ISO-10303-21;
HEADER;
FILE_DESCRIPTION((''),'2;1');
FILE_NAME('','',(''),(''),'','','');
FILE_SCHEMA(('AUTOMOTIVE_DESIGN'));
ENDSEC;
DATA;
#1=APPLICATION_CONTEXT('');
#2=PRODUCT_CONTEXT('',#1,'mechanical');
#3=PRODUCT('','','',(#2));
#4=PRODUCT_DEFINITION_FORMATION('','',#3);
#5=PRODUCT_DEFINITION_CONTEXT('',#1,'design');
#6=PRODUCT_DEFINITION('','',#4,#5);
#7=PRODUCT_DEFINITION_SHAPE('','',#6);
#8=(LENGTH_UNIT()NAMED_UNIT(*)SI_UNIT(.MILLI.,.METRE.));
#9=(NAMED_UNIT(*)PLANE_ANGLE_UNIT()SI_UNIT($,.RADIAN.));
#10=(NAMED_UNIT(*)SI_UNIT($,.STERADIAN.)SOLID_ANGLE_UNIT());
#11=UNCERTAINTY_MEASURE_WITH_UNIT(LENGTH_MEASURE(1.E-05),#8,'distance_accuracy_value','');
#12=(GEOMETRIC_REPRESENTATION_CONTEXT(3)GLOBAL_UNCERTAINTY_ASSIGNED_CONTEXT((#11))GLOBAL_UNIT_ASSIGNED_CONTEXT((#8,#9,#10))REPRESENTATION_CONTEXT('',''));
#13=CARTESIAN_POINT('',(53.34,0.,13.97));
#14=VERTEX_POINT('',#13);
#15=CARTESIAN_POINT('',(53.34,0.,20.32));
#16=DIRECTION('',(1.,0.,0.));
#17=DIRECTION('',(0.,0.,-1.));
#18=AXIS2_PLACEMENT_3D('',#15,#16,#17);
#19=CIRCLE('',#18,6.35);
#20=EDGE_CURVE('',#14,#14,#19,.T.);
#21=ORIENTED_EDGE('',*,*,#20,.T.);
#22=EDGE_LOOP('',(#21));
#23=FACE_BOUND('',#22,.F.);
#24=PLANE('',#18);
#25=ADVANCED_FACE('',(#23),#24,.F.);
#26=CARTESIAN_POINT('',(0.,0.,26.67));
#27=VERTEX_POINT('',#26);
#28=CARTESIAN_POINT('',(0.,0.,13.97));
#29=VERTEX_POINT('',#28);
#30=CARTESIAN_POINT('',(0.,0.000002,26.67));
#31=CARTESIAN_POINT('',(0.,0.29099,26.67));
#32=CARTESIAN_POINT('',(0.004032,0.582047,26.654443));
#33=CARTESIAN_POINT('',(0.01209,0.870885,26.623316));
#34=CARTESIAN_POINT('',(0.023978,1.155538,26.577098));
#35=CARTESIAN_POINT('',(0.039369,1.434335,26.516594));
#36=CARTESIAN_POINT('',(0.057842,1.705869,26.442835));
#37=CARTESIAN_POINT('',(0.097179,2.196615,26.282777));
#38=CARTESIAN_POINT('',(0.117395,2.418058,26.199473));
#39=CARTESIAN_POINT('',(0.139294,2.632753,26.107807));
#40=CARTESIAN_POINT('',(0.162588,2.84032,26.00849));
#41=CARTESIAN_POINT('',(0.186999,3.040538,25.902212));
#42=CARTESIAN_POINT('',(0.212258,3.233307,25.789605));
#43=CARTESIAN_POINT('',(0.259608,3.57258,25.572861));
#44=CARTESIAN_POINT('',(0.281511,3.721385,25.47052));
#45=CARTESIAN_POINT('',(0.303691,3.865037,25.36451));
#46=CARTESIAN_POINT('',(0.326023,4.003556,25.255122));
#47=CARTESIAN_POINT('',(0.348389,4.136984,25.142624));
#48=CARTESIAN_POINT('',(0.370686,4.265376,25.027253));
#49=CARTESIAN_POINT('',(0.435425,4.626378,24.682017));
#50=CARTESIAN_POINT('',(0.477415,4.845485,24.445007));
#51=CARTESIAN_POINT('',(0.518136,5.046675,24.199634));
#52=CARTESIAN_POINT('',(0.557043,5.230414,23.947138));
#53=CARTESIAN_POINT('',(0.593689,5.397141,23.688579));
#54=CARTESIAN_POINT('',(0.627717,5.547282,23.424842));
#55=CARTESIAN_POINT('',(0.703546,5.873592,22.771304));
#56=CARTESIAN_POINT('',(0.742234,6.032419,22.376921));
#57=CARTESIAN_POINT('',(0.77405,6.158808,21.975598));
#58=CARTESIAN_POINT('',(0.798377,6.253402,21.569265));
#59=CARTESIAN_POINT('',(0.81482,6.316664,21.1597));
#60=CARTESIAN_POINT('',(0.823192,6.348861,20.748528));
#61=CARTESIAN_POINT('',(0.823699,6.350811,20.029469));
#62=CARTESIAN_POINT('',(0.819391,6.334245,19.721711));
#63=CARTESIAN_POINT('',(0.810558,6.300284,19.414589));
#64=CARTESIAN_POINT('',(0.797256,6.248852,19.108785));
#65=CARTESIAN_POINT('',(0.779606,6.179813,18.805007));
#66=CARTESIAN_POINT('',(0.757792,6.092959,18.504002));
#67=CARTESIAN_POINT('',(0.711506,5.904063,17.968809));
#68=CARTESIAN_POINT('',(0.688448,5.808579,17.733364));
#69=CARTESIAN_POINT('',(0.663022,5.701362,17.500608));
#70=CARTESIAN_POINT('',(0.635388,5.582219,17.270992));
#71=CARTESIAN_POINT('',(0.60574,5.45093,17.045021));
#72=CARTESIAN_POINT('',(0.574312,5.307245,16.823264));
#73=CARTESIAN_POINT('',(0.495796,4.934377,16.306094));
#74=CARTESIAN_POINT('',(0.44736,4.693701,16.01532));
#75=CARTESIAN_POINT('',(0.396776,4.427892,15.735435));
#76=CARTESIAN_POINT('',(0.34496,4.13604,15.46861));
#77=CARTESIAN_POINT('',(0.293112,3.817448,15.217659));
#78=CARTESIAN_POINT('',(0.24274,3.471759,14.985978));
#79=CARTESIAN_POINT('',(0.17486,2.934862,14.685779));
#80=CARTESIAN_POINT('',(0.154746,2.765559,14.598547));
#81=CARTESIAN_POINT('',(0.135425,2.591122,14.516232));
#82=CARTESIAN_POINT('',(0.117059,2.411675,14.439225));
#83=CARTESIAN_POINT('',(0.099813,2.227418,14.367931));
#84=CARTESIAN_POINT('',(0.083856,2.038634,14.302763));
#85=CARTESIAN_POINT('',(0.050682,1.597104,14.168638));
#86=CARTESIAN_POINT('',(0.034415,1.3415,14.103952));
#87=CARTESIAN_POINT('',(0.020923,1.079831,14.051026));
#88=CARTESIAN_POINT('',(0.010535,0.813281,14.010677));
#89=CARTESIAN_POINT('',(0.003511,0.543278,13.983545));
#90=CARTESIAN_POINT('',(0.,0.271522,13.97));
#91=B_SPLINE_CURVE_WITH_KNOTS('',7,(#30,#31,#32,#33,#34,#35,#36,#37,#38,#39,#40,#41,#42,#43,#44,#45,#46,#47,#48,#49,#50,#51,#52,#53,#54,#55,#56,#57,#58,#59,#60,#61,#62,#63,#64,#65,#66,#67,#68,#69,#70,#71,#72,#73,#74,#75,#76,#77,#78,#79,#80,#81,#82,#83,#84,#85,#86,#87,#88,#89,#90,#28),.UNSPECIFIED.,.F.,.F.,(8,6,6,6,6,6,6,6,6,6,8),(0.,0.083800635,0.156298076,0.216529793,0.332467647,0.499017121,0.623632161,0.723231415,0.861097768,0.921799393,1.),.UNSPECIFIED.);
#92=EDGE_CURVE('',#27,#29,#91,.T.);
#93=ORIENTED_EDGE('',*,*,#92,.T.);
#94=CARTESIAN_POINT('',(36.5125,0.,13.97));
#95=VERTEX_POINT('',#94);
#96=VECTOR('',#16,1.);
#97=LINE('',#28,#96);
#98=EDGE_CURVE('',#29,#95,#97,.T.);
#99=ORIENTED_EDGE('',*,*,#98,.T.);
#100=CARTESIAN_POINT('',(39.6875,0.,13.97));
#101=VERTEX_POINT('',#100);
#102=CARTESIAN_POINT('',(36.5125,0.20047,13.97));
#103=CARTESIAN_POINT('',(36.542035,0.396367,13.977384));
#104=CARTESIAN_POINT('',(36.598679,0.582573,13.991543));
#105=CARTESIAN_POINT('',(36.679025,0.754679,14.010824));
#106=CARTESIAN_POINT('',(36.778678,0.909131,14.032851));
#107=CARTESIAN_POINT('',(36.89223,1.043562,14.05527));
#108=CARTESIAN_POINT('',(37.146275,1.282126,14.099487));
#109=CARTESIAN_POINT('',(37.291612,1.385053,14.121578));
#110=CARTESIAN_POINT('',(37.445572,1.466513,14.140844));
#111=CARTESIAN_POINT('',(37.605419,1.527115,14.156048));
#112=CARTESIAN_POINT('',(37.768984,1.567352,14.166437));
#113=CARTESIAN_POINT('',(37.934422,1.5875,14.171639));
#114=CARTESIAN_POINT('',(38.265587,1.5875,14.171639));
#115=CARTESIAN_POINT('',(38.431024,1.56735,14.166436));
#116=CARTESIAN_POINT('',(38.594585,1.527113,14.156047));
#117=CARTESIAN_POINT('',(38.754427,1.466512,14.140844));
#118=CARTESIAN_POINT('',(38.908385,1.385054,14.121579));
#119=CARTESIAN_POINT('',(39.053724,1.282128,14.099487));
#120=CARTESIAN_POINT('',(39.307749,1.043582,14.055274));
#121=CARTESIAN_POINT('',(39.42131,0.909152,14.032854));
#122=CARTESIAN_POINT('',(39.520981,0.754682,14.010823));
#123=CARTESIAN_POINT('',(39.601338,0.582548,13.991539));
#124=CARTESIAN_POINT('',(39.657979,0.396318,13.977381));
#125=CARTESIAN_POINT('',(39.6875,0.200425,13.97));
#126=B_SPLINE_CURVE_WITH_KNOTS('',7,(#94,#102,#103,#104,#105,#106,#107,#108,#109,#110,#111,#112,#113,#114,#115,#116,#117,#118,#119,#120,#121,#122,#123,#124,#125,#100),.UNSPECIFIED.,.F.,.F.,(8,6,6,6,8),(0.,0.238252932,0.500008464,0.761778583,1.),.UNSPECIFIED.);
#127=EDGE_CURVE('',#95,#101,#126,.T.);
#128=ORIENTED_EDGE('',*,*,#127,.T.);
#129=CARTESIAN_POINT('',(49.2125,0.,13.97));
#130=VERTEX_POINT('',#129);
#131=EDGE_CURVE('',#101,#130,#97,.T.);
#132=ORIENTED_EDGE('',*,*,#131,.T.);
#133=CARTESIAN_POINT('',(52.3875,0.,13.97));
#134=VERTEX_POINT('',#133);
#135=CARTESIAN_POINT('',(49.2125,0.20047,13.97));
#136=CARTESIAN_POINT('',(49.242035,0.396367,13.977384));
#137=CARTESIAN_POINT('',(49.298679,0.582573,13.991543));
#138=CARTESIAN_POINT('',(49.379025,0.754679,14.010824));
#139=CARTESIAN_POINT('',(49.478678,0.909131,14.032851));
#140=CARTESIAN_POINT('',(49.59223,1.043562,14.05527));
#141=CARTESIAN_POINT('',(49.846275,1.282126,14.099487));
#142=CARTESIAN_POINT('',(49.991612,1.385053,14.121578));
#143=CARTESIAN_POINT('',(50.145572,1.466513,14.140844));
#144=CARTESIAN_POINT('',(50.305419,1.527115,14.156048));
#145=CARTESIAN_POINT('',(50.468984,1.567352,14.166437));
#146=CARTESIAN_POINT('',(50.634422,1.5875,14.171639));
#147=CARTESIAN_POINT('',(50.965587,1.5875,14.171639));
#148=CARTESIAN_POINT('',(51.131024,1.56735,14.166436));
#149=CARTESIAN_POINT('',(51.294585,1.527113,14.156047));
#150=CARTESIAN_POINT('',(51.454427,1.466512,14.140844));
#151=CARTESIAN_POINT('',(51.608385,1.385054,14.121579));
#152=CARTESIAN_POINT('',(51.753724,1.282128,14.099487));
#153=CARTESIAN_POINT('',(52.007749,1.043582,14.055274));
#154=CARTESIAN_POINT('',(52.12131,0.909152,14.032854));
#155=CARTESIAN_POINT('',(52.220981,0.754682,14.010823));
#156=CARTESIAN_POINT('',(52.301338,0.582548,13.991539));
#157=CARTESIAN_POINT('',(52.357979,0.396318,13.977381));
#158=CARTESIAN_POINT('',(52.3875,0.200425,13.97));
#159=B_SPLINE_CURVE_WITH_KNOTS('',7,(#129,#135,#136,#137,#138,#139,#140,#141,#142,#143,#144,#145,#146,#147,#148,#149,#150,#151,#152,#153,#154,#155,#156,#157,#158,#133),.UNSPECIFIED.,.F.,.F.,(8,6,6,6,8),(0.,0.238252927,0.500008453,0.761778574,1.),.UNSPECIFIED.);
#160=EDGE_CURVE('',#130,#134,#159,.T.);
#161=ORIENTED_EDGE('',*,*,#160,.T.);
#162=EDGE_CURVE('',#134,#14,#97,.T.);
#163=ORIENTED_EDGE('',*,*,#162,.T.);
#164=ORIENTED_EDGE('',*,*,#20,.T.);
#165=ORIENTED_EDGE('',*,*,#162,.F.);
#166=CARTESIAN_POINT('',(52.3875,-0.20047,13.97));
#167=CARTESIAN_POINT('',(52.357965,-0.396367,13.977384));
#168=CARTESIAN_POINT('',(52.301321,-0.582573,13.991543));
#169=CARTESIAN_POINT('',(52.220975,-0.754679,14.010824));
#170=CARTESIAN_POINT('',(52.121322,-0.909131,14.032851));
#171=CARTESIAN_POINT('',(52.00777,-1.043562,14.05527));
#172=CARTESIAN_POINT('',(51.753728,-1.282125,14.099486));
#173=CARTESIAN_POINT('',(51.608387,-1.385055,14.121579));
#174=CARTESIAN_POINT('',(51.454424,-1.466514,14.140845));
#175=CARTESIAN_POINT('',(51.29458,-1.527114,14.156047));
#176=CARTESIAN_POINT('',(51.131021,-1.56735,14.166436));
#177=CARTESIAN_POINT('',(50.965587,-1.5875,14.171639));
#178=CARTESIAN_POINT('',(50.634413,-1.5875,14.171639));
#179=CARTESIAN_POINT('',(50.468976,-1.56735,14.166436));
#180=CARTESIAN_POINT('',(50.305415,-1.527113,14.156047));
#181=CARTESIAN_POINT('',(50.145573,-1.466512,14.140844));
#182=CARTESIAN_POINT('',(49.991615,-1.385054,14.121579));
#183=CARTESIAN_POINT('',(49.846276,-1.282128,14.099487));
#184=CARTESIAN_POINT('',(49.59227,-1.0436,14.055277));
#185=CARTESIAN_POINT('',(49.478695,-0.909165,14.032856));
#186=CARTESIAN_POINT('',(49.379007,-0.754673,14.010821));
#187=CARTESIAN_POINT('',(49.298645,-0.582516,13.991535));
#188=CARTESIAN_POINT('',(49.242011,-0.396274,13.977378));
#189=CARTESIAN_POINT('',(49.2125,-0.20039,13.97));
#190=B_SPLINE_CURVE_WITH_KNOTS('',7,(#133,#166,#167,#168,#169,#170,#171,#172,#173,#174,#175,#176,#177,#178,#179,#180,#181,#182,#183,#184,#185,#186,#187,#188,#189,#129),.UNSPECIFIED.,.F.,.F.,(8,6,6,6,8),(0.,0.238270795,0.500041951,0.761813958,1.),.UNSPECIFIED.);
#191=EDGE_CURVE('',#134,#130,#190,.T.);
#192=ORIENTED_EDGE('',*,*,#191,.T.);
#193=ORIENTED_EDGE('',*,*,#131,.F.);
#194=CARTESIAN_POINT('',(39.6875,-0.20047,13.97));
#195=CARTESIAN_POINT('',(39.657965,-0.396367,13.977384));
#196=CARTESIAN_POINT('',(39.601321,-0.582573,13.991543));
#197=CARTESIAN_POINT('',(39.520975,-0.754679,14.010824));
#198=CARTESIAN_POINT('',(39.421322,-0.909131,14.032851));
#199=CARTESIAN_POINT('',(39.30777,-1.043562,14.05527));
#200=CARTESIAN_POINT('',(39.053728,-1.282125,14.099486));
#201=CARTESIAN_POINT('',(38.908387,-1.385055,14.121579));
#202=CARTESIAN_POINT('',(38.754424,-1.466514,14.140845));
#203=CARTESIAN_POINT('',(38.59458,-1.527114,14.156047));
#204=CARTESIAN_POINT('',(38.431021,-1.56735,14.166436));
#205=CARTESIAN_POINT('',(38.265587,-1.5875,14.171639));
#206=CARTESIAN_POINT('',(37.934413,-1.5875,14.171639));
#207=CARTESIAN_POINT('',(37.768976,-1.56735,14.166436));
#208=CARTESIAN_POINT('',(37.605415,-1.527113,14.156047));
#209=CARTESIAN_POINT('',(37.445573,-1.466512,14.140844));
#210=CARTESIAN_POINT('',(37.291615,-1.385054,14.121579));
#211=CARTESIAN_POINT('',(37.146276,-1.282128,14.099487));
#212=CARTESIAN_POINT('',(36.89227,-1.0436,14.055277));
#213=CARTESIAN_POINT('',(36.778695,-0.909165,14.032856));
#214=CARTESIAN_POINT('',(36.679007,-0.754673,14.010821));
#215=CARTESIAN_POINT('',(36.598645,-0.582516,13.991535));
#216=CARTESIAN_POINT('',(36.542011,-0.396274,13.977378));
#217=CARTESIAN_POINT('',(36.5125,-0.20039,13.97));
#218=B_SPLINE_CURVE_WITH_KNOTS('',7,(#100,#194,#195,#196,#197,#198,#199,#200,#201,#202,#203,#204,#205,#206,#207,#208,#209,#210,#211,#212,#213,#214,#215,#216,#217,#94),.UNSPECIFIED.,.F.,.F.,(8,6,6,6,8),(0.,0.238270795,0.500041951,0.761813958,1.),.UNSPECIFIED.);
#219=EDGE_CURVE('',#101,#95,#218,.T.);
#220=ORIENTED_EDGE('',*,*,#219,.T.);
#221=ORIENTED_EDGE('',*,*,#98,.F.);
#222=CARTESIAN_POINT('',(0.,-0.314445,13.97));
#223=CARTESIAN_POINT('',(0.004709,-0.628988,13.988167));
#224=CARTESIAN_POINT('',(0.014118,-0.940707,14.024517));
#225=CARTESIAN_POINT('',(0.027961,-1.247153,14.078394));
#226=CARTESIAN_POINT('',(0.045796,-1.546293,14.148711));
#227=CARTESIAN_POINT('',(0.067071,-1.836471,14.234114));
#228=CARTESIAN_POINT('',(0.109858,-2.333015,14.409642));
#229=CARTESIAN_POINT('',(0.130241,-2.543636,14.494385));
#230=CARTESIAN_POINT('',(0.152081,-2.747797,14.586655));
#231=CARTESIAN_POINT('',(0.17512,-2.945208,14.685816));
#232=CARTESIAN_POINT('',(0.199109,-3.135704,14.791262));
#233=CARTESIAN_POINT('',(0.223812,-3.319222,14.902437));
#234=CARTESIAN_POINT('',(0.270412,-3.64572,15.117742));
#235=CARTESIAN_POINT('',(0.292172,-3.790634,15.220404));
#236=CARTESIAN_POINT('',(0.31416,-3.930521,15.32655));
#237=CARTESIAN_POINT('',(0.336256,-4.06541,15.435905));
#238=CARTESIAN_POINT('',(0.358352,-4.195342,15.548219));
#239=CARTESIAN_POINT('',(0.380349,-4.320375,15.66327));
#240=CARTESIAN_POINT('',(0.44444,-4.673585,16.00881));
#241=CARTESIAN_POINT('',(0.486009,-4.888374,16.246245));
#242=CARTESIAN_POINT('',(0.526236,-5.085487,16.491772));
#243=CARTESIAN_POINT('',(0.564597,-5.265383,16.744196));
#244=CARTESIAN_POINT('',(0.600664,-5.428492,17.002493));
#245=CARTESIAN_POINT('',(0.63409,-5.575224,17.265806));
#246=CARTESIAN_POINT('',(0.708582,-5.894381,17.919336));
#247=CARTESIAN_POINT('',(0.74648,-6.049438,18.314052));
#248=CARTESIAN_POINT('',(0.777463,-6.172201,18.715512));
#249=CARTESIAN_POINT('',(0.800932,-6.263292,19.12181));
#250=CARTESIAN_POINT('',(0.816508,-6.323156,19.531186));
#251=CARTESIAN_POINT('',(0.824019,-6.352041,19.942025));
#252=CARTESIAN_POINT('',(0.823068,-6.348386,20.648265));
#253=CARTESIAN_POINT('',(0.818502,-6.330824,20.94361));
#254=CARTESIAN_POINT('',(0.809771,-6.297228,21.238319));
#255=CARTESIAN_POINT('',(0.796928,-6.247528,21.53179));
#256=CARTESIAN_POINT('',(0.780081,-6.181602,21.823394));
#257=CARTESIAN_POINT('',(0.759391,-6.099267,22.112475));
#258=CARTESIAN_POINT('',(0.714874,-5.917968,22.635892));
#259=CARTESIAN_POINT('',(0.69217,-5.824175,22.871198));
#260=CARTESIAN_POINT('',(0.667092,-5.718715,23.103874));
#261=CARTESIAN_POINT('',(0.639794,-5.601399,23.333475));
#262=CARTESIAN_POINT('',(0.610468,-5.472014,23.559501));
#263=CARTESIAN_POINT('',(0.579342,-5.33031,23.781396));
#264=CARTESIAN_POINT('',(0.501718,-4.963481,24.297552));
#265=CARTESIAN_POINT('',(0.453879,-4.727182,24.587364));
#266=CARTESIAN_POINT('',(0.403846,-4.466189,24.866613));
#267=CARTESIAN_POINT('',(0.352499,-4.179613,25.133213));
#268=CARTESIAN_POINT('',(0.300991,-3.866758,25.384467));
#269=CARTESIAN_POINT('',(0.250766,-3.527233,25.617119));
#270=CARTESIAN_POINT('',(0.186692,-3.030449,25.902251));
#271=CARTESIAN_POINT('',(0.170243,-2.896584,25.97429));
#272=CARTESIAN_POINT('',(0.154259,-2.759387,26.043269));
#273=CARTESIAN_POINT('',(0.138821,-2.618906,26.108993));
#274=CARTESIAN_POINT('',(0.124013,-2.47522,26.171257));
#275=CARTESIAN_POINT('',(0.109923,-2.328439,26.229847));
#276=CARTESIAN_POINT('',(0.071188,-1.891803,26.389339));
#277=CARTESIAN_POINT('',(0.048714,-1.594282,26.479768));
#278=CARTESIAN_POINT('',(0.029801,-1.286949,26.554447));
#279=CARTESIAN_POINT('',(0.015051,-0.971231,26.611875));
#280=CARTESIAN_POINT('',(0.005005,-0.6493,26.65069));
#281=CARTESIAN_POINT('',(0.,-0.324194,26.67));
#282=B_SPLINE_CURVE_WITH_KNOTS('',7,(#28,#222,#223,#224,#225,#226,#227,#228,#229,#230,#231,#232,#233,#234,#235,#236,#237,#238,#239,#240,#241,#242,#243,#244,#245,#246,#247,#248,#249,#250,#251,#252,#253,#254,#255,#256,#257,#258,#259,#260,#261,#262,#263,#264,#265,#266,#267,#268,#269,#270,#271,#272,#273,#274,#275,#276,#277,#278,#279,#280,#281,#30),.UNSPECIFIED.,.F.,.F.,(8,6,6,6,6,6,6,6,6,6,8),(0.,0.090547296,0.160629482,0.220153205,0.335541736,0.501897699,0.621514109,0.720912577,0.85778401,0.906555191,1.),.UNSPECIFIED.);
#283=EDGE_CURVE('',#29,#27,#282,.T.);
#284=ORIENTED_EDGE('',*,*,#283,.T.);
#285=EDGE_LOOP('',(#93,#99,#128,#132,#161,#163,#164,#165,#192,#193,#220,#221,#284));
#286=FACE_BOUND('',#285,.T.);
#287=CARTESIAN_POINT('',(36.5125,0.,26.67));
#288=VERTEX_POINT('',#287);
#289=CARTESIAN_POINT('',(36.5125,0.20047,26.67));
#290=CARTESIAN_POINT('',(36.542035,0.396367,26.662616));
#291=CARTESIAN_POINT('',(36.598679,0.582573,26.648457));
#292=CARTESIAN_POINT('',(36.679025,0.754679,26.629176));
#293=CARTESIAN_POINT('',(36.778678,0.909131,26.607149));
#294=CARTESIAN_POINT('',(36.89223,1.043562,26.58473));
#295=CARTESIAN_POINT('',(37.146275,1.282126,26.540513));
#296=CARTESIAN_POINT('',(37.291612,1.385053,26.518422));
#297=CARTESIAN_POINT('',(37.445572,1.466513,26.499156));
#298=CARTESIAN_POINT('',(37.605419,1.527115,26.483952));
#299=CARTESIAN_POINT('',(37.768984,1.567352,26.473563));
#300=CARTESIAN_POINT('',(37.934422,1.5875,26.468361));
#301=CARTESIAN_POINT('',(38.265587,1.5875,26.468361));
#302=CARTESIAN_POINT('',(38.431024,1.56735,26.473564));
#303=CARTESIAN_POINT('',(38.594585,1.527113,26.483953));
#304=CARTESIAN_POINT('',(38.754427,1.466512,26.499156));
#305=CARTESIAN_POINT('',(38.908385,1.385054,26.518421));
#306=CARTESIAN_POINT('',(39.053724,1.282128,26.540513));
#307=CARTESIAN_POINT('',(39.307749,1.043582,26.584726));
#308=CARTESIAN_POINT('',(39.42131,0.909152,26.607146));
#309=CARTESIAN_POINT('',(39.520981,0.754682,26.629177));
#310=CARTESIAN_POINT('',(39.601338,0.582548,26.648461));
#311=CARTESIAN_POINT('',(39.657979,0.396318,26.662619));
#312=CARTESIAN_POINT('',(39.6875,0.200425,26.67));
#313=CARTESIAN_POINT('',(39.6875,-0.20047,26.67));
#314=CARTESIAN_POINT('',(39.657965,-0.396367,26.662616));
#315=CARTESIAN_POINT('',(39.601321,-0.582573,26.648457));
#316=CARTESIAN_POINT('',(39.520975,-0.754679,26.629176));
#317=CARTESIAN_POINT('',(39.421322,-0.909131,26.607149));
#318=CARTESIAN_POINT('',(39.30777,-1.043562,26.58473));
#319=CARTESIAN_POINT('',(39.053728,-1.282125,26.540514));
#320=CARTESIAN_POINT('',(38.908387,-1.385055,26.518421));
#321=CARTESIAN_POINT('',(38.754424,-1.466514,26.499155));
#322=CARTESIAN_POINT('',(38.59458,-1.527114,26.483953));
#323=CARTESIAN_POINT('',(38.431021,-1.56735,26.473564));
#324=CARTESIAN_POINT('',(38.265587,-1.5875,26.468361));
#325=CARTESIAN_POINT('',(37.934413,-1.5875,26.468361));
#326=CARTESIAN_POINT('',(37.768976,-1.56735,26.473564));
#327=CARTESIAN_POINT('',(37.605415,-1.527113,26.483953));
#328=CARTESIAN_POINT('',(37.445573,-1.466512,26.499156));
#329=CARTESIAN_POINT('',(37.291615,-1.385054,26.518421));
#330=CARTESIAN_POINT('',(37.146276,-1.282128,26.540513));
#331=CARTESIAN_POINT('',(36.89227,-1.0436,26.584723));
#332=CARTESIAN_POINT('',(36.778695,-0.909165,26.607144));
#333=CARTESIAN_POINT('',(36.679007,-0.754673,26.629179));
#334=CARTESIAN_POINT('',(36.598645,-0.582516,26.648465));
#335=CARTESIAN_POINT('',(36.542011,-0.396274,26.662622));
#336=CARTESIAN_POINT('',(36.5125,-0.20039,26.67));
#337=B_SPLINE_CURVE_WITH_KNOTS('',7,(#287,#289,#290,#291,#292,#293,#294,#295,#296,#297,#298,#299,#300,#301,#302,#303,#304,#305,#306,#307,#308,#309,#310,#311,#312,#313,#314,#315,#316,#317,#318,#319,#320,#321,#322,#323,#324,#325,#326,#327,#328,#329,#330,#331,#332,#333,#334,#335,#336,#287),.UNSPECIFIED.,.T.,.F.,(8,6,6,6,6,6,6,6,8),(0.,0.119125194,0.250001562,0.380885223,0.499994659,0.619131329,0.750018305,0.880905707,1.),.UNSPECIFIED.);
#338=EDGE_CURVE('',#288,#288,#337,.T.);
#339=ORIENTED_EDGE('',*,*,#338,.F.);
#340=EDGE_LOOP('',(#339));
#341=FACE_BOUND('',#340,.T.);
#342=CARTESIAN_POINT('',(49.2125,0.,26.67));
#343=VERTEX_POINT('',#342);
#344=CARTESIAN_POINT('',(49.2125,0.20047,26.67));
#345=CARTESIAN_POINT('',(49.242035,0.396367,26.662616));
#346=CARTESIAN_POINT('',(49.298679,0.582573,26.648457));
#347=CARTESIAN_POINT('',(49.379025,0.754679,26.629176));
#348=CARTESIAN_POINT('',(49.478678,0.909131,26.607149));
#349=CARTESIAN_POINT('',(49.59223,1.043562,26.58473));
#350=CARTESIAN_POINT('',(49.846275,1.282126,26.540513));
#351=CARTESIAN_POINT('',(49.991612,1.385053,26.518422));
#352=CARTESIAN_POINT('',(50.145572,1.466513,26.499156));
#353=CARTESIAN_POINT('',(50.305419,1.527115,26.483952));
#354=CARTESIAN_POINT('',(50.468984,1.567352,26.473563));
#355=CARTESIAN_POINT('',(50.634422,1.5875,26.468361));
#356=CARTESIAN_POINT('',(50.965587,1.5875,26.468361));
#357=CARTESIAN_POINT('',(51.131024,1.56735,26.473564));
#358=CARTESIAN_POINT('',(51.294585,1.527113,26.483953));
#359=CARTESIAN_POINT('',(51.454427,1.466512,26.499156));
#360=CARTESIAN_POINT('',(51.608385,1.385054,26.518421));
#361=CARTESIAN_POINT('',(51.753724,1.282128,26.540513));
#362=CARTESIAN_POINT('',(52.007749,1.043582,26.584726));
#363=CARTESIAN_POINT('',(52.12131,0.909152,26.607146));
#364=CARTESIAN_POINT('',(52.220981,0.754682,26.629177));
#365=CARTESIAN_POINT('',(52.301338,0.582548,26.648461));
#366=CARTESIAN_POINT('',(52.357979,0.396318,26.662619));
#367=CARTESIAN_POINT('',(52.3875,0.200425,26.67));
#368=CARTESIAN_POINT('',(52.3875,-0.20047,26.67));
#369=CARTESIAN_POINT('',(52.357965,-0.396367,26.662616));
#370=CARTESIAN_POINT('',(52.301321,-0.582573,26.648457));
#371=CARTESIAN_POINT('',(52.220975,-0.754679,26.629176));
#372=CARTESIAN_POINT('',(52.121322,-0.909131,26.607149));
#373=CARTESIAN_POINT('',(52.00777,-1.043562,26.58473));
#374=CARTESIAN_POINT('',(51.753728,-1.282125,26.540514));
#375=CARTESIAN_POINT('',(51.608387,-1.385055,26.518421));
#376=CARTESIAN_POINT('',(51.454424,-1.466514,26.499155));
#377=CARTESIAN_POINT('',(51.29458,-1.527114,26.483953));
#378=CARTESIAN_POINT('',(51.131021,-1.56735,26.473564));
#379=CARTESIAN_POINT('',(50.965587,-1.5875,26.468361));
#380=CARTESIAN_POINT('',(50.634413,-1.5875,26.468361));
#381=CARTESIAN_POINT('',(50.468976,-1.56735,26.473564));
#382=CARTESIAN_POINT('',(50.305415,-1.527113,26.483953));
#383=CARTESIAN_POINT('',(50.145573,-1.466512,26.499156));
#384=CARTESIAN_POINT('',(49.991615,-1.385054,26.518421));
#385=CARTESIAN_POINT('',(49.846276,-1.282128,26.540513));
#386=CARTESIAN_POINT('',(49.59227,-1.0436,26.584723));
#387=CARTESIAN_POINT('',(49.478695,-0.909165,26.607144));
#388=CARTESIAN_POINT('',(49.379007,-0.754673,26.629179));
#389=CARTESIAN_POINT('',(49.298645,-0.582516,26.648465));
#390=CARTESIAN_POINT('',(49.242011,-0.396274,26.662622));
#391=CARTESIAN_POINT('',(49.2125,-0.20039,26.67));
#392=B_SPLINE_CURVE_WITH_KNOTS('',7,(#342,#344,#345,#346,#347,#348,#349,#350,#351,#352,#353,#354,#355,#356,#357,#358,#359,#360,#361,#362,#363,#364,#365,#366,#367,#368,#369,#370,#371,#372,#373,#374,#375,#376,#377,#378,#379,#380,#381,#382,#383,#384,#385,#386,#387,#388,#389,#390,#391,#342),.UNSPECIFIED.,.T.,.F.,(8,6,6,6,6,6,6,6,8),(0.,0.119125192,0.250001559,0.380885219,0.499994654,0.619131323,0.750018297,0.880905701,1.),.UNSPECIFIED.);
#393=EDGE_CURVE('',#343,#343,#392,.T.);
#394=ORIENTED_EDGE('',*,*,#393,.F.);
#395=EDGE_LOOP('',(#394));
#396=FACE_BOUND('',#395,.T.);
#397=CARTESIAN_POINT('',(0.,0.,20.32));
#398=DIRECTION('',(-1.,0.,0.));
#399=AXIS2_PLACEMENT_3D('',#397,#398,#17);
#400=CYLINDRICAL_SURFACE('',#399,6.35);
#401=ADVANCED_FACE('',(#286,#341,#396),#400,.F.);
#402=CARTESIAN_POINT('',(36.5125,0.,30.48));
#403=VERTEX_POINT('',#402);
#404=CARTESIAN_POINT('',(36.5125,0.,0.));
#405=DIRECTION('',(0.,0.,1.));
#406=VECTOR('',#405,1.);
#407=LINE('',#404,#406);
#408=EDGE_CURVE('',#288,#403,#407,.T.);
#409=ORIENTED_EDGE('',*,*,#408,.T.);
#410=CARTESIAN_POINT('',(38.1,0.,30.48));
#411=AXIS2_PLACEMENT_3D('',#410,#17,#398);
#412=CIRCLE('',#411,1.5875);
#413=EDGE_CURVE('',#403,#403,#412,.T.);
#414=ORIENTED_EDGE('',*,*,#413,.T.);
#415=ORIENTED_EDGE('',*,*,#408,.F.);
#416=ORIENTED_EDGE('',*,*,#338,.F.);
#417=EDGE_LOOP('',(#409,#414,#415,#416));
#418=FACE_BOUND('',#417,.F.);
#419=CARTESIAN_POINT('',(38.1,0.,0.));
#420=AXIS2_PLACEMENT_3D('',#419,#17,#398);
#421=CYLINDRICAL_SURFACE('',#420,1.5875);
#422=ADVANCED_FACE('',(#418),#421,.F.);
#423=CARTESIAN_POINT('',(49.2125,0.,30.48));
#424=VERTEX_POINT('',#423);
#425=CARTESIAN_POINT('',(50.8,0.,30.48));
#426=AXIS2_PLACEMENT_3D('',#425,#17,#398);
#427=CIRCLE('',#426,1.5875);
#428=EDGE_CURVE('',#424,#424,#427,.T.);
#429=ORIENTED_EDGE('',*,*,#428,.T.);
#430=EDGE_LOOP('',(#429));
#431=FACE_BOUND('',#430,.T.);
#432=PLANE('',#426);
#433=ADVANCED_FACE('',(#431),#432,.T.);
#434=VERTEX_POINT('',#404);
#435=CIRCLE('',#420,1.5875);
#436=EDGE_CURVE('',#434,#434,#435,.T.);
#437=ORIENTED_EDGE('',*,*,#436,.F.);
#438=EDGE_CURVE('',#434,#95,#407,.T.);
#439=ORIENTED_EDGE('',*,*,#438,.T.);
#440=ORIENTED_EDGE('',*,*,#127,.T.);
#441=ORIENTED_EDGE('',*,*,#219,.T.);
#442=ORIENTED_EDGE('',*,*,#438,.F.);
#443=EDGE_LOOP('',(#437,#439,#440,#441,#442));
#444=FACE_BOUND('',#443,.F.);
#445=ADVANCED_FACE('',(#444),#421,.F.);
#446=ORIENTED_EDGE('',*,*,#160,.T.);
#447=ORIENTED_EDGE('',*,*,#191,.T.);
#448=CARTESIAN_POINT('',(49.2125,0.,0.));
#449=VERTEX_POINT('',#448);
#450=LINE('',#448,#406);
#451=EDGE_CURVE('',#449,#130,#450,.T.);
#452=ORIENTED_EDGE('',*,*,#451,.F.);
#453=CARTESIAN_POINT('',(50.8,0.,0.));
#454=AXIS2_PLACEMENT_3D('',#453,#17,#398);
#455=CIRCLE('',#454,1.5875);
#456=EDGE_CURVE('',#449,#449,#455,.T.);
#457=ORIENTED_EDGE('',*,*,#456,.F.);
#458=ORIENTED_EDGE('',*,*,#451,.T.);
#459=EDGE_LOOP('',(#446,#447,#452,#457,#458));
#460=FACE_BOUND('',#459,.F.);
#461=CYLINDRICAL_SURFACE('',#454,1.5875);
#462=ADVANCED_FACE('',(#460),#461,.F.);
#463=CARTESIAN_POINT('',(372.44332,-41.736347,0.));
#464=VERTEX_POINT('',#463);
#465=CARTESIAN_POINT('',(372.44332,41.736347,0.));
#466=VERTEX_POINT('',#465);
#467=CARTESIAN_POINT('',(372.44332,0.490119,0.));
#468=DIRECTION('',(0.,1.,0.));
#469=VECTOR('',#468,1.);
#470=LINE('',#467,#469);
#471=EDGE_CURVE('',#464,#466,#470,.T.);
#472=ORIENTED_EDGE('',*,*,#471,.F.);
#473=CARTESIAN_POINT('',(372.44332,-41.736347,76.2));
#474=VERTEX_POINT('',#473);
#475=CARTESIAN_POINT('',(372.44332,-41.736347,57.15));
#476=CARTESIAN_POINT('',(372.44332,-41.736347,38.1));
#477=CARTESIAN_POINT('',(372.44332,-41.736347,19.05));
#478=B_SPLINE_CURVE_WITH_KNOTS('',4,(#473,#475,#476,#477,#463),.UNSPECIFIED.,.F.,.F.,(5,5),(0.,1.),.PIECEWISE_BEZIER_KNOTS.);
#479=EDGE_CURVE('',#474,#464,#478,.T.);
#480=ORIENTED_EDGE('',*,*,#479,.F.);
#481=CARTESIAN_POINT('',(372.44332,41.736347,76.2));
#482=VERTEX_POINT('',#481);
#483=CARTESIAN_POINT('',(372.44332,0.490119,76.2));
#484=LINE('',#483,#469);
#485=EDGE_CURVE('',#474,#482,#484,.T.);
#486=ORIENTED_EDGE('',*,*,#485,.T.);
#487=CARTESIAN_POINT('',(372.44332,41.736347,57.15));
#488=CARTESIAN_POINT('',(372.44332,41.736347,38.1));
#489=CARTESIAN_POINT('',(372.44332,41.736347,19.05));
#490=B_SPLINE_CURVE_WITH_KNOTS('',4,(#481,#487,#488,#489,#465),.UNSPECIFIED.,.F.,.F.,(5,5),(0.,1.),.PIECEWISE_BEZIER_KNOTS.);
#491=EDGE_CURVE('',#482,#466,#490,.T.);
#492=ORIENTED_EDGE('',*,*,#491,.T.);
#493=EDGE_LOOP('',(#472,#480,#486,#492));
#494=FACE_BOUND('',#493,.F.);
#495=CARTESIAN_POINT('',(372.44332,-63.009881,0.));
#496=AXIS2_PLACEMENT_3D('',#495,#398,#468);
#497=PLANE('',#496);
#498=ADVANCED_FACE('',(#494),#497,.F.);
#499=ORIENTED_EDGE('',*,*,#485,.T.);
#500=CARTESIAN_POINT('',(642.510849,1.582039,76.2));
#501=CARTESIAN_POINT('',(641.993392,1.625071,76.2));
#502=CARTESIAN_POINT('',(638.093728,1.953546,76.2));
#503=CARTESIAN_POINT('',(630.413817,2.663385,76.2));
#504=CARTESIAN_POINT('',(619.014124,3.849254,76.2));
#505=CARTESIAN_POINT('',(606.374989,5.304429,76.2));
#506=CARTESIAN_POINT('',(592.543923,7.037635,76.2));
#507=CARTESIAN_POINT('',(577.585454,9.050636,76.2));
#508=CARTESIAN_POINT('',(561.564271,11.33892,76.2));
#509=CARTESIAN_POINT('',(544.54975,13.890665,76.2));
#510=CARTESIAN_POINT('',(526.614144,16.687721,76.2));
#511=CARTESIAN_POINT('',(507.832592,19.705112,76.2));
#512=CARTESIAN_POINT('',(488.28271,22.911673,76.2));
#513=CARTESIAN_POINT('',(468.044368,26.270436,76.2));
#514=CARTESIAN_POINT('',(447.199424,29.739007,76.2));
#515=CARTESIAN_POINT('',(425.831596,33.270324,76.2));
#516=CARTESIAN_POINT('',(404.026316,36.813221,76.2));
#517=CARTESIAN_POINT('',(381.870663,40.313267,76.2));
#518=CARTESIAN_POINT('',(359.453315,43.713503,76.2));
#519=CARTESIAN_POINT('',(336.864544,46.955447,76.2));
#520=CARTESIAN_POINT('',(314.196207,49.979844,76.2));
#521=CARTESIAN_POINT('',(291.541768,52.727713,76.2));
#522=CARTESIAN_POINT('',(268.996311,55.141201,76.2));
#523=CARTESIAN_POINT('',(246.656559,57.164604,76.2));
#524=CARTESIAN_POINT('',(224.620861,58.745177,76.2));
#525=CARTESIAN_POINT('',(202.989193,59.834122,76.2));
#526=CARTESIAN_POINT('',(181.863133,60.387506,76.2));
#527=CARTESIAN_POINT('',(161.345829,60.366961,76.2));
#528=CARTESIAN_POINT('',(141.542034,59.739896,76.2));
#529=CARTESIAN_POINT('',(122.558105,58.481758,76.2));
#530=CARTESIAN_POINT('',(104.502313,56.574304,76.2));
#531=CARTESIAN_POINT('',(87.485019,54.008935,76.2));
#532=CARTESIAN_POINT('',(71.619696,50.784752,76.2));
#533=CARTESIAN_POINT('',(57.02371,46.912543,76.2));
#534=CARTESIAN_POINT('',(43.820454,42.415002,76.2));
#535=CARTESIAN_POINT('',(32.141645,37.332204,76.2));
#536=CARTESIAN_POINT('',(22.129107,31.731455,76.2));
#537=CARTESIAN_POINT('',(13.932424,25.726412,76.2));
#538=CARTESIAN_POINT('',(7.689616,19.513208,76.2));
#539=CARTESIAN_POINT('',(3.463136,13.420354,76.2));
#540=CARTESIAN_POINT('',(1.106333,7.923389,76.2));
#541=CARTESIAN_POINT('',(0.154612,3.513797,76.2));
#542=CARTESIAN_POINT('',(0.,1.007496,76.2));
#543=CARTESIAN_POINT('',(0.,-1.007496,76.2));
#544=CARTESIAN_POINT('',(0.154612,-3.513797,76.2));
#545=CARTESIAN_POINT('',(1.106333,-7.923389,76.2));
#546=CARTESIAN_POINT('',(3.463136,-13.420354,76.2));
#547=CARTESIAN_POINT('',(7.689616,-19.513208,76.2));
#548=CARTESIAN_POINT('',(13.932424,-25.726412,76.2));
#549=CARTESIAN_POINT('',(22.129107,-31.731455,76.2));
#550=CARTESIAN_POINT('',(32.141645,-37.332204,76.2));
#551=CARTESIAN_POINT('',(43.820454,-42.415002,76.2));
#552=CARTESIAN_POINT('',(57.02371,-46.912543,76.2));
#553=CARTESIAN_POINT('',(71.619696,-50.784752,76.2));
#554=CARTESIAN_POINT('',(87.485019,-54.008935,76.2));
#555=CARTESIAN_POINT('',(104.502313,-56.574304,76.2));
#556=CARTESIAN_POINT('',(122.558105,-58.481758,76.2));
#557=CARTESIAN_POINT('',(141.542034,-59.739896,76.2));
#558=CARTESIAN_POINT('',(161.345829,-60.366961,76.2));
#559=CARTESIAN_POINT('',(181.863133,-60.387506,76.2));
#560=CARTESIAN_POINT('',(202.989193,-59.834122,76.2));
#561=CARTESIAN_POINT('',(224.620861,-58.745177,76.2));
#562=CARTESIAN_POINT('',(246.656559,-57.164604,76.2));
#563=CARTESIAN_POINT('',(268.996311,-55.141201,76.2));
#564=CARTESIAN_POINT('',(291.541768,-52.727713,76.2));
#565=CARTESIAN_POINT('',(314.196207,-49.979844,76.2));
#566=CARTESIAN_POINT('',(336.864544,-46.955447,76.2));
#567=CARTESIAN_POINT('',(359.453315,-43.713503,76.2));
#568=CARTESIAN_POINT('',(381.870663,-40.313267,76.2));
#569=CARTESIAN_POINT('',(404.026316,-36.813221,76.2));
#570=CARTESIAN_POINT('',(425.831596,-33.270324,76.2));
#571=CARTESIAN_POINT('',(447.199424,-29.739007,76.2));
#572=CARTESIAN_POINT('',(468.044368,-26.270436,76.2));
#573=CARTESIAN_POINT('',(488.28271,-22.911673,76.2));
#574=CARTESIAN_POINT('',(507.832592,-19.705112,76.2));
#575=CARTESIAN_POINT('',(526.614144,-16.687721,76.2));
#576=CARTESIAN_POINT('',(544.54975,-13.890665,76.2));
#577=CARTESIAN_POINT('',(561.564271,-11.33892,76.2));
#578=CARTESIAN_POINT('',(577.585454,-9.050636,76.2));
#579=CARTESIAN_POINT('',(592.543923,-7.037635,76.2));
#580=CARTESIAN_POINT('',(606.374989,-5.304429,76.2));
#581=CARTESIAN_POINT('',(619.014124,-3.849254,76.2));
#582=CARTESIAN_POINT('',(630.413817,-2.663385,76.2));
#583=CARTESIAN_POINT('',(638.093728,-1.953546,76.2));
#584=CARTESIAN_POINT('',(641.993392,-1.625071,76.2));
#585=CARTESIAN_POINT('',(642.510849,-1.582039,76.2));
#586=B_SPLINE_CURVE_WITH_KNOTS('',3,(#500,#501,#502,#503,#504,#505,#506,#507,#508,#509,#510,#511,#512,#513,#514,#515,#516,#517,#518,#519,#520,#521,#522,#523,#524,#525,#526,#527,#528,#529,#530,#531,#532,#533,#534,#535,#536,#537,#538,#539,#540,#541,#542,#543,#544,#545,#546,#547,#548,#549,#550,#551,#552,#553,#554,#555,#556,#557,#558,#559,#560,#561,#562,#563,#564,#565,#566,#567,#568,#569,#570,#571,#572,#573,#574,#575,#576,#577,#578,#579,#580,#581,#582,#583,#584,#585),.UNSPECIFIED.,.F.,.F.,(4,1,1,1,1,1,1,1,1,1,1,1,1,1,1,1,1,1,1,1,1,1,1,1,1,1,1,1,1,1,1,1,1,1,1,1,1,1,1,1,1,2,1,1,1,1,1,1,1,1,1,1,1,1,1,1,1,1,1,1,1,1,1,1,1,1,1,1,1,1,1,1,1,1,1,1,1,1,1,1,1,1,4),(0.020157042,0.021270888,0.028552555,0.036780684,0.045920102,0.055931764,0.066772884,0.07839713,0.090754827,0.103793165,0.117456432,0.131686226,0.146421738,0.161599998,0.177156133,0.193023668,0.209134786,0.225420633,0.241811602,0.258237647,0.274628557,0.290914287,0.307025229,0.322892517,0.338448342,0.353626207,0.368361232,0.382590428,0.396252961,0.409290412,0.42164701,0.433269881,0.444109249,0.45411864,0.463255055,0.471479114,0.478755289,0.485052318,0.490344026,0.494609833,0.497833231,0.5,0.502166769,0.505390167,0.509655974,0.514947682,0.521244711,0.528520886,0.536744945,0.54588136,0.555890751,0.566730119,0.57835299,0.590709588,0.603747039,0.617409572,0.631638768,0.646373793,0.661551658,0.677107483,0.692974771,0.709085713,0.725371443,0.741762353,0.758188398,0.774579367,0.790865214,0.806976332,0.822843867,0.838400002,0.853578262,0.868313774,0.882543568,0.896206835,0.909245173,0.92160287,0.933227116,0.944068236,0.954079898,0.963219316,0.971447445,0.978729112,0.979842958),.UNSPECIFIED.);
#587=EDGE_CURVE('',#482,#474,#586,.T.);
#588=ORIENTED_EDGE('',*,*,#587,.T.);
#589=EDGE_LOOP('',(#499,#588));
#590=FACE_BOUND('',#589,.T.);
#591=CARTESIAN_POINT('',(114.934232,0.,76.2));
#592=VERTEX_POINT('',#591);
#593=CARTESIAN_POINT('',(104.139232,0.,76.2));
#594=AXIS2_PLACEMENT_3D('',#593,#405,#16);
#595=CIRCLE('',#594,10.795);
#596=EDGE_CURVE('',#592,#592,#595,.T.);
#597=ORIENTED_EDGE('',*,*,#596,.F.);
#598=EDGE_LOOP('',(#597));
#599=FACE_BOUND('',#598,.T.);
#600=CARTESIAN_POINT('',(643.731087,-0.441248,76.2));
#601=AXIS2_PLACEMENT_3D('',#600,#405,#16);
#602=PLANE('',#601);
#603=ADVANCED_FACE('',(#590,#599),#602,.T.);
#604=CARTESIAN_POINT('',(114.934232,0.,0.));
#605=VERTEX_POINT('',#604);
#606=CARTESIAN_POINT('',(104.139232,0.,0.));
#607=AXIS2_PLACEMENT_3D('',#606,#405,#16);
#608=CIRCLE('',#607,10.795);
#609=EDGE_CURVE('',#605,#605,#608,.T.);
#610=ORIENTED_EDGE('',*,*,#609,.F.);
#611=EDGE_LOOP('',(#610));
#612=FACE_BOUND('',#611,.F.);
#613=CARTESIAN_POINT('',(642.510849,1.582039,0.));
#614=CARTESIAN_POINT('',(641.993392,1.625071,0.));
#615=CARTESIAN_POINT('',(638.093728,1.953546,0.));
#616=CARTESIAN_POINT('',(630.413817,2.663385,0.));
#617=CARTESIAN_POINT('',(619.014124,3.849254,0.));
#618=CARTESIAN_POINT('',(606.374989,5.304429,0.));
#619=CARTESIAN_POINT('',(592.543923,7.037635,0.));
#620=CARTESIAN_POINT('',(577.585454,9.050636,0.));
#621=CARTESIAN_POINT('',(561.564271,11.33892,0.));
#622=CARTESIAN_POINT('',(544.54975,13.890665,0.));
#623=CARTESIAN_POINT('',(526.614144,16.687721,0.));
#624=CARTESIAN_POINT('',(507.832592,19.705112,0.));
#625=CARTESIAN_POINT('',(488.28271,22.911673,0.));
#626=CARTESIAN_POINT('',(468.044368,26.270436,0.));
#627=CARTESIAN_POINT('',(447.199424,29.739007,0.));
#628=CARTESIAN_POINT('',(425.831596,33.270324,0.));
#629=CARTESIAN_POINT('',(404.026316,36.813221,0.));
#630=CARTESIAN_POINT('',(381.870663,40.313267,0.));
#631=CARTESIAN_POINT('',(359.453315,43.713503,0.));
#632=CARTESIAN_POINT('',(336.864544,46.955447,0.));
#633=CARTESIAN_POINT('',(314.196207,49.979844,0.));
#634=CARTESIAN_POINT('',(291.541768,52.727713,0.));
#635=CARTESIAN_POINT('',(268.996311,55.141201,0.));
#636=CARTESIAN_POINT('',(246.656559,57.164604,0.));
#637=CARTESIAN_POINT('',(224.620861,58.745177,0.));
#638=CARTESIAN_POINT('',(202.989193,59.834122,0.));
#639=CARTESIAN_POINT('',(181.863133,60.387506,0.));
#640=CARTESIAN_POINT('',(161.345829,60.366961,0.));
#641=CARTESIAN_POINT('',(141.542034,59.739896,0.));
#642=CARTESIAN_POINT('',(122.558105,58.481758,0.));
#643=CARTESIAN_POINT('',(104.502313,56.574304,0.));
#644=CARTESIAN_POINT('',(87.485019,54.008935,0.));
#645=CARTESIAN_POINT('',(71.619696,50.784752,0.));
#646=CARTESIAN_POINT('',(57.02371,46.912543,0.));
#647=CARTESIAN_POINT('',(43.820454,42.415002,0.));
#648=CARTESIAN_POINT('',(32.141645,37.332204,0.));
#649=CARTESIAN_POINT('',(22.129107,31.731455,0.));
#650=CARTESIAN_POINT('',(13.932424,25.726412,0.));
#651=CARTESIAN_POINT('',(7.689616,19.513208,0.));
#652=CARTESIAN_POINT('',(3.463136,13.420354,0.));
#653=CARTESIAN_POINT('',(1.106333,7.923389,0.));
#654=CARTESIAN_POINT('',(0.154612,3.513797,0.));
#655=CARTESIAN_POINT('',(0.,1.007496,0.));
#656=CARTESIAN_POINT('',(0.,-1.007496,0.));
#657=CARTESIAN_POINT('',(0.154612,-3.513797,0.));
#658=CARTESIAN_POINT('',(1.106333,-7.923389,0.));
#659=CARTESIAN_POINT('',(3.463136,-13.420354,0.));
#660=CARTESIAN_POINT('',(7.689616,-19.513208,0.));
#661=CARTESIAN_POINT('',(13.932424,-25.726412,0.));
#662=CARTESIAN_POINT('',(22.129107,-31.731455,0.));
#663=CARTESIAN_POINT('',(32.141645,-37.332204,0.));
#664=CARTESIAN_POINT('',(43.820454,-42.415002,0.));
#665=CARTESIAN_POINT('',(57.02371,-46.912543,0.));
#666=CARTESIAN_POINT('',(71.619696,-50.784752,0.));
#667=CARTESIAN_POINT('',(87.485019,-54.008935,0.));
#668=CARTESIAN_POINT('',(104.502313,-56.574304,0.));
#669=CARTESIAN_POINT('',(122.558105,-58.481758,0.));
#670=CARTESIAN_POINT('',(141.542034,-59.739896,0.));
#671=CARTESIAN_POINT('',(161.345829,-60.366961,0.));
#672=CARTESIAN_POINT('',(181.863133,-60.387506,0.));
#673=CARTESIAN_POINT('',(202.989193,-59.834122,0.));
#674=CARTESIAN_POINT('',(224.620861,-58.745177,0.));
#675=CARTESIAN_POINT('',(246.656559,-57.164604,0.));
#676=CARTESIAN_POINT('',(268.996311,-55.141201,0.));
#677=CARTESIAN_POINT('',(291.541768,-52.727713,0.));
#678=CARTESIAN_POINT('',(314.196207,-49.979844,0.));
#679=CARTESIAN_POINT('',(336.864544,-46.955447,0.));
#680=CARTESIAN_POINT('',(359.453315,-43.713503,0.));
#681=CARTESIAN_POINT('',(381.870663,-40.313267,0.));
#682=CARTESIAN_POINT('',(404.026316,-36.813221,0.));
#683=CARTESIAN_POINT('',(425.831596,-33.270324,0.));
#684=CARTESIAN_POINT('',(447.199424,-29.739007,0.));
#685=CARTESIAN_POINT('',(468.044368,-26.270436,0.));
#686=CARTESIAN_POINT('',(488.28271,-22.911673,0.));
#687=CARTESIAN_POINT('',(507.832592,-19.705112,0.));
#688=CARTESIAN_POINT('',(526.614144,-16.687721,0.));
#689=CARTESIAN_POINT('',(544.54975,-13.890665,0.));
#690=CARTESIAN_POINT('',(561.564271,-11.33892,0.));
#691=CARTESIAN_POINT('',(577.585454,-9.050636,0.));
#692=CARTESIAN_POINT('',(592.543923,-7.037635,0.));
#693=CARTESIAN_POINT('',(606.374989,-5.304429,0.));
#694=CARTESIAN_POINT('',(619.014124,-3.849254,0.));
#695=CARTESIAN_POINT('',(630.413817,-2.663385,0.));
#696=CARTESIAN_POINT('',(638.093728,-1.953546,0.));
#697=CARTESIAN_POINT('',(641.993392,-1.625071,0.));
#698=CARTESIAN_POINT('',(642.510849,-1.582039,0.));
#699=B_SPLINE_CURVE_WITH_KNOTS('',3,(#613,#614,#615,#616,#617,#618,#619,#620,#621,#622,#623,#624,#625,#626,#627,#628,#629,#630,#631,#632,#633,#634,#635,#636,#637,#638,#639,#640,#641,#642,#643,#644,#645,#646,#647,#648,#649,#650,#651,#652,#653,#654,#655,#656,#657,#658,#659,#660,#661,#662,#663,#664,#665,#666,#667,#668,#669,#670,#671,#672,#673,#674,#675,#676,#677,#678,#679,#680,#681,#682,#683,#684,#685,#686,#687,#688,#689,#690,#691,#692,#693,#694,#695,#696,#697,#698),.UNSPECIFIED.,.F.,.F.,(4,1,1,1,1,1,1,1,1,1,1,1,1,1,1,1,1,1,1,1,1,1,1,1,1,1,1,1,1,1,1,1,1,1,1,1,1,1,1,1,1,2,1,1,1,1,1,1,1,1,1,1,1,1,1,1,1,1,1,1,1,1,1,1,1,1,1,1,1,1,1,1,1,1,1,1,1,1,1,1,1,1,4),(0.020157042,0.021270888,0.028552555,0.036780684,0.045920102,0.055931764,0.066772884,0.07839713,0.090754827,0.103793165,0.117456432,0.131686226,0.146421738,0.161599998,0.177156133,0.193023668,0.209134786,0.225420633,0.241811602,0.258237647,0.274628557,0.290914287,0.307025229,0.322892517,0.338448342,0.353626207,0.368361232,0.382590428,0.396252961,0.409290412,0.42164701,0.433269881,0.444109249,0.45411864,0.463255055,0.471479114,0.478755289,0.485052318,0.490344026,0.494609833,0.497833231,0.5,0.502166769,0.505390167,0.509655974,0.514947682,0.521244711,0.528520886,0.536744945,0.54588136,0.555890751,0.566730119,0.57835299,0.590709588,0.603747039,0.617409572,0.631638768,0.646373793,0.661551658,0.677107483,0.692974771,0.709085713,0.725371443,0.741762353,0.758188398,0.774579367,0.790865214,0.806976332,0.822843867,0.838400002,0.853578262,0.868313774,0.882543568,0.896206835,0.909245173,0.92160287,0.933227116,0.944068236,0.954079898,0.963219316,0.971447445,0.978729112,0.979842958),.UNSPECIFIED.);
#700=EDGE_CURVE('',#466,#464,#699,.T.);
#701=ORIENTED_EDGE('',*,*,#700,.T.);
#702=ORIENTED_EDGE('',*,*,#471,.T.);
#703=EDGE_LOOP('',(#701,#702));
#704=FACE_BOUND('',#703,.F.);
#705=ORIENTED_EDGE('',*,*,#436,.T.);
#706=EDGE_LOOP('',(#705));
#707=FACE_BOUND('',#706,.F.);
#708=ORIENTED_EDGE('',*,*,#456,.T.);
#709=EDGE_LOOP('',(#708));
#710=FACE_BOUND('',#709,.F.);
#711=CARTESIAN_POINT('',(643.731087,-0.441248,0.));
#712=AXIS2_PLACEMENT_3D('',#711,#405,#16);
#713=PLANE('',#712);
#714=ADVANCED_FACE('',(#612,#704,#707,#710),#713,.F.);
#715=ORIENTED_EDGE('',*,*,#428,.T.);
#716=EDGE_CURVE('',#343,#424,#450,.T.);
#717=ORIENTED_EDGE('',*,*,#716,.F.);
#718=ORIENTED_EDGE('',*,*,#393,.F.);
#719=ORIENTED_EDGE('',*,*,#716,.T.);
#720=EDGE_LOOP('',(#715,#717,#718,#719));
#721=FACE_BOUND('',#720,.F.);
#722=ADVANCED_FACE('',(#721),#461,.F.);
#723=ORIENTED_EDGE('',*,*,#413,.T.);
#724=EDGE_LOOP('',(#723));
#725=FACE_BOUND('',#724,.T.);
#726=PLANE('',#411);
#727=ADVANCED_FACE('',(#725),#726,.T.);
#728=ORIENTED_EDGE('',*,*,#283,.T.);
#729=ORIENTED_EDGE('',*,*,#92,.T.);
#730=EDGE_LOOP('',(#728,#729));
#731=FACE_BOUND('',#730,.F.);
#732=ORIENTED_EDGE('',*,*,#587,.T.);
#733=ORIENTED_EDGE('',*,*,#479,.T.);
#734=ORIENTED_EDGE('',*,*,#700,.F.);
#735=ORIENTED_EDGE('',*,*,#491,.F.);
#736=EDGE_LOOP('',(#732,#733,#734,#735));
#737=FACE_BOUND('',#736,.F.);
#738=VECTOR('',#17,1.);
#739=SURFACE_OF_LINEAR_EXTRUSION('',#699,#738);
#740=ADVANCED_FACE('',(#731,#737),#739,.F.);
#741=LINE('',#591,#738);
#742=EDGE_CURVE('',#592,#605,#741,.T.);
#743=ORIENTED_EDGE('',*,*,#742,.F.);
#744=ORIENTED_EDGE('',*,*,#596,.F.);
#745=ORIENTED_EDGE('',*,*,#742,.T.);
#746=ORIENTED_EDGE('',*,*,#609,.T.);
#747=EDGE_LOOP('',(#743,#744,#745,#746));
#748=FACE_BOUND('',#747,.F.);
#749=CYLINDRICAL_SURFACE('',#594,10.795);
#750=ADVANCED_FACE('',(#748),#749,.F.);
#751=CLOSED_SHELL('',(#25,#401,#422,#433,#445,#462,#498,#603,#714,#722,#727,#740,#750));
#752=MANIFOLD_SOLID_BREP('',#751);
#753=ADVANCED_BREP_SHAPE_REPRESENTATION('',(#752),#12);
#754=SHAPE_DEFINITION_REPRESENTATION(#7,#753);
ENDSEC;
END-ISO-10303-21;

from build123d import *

# Parameters (mm, degrees)
BOSS_EXTRUDE1_DEPTH     = 76.2
SKETCH3_R               = 10.795
CUT_EXTRUDE2_DEPTH      = 76.2
SKETCH6_R               = 6.35
CUT_EXTRUDE3_DEPTH      = 53.34
CUT_EXTRUDE3_DEPTH_BACK = 0.000254
SKETCH7_R               = 1.5875
CUT_EXTRUDE4_DEPTH      = 30.48
SKETCH8_W               = 304.8
SKETCH8_H               = 127
CUT_EXTRUDE5_DEPTH      = 76.2


with BuildPart() as part:
    # Sketch1 → Boss-Extrude1 (new body)
    with BuildSketch(Plane.XY):
        with BuildLine():
            Line((643.966787522, 0), (643.599082689, 0))
            Line((643.599082689, 0), (643.599082689, -1.016))
            ThreePointArc((643.599082689, -1.016), (643.872033494, -0.540245973), (643.966787522, 0))
        make_face()
        with BuildLine():
            Line((643.599082689, -1.016), (643.599082689, 0))
            Line((643.599082689, 0), (641.567082689, 0))
            ThreePointArc((641.567082689, 0), (642.269121423, -1.135922533), (643.599082689, -1.016))
        make_face()
        with BuildLine():
            Line((641.567082689, 0), (643.599082689, 0))
            Line((643.599082689, 0), (643.966787522, 0))
            ThreePointArc((643.966787522, 0), (643.547407924, 1.075012082), (642.510849283, 1.582039112))
            add(Edge.make_bspline(
                [(642.510849283, 1.582039112), (641.993392355, 1.625070631), (638.093728429, 1.953546407), (630.413817462, 2.663385493), (619.014124193, 3.849253664), (606.374988512, 5.304428983), (592.543922516, 7.037634907), (577.585454095, 9.050636147), (561.564270734, 11.338919625), (544.549749946, 13.890665375), (526.614143658, 16.687720753), (507.832591566, 19.705111663), (488.282710288, 22.911672601), (468.044367735, 26.27043606), (447.199424328, 29.739007432), (425.831595832, 33.270324121), (404.02631566, 36.813220545), (381.870662856, 40.313266856), (359.453314895, 43.713502532), (336.86454415, 46.955447457), (314.196207315, 49.979843895), (291.541767704, 52.727712704), (268.996310773, 55.141201012), (246.65655865, 57.164603829), (224.620860897, 58.745176641), (202.989192599, 59.8341217), (181.863132616, 60.387506142), (161.345829027, 60.366961324), (141.542033828, 59.739895824), (122.558104573, 58.481758104), (104.502313427, 56.574303932), (87.485018636, 54.008935199), (71.619696083, 50.784752003), (57.023709725, 46.912543066), (43.82045433, 42.41500246), (32.141645239, 37.332204029), (22.129107375, 31.731455339), (13.932423524, 25.726412106), (7.689616489, 19.513207632), (3.463136343, 13.420354421), (1.106333228, 7.923389435), (0.154611582, 3.513796615), (0, 1.007496172), (0, 0)],
                knots=[0.020157042, 0.020157042, 0.020157042, 0.020157042, 0.021270888, 0.028552555, 0.036780684, 0.045920102, 0.055931764, 0.066772884, 0.07839713, 0.090754827, 0.103793165, 0.117456432, 0.131686226, 0.146421738, 0.161599998, 0.177156133, 0.193023668, 0.209134786, 0.225420633, 0.241811602, 0.258237647, 0.274628557, 0.290914287, 0.307025229, 0.322892517, 0.338448342, 0.353626207, 0.368361232, 0.382590428, 0.396252961, 0.409290412, 0.42164701, 0.433269881, 0.444109249, 0.45411864, 0.463255055, 0.471479114, 0.478755289, 0.485052318, 0.490344026, 0.494609833, 0.497833231, 0.5, 0.5, 0.5, 0.5], degree=3))
            Line((0, 0), (27.94, 0))
            ThreePointArc((27.94, 0), (40.64, 12.7), (53.34, 0))
            Line((53.34, 0), (93.345, 0))
            ThreePointArc((93.345, 0), (104.14, 10.795), (114.935, 0))
            Line((114.935, 0), (460.660965279, 0))
            Line((460.660965279, 0), (473.360965279, 0))
            Line((473.360965279, 0), (641.567082689, 0))
        make_face()
        with BuildLine():
            ThreePointArc((642.510849283, -1.582039112), (643.111845681, -1.408373102), (643.599082689, -1.016))
            ThreePointArc((643.599082689, -1.016), (642.269121423, -1.135922533), (641.567082689, 0))
            Line((641.567082689, 0), (473.360965279, 0))
            Line((473.360965279, 0), (460.660965279, 0))
            Line((460.660965279, 0), (114.935, 0))
            ThreePointArc((114.935, 0), (104.14, -10.795), (93.345, 0))
            Line((93.345, 0), (53.34, 0))
            ThreePointArc((53.34, 0), (40.64, -12.7), (27.94, 0))
            Line((27.94, 0), (0, 0))
            add(Edge.make_bspline(
                [(0, 0), (0, -1.007496172), (0.154611582, -3.513796615), (1.106333228, -7.923389435), (3.463136343, -13.420354421), (7.689616489, -19.513207632), (13.932423524, -25.726412106), (22.129107375, -31.731455339), (32.141645239, -37.332204029), (43.82045433, -42.41500246), (57.023709725, -46.912543066), (71.619696083, -50.784752003), (87.485018636, -54.008935199), (104.502313427, -56.574303932), (122.558104573, -58.481758104), (141.542033828, -59.739895824), (161.345829027, -60.366961324), (181.863132616, -60.387506142), (202.989192599, -59.8341217), (224.620860897, -58.745176641), (246.65655865, -57.164603829), (268.996310773, -55.141201012), (291.541767704, -52.727712704), (314.196207315, -49.979843895), (336.86454415, -46.955447457), (359.453314895, -43.713502532), (381.870662856, -40.313266856), (404.02631566, -36.813220545), (425.831595832, -33.270324121), (447.199424328, -29.739007432), (468.044367735, -26.27043606), (488.282710288, -22.911672601), (507.832591566, -19.705111663), (526.614143658, -16.687720753), (544.549749946, -13.890665375), (561.564270734, -11.338919625), (577.585454095, -9.050636147), (592.543922516, -7.037634907), (606.374988512, -5.304428983), (619.014124193, -3.849253664), (630.413817462, -2.663385493), (638.093728429, -1.953546407), (641.993392355, -1.625070631), (642.510849283, -1.582039112)],
                knots=[0.5, 0.5, 0.5, 0.5, 0.502166769, 0.505390167, 0.509655974, 0.514947682, 0.521244711, 0.528520886, 0.536744945, 0.54588136, 0.555890751, 0.566730119, 0.57835299, 0.590709588, 0.603747039, 0.617409572, 0.631638768, 0.646373793, 0.661551658, 0.677107483, 0.692974771, 0.709085713, 0.725371443, 0.741762353, 0.758188398, 0.774579367, 0.790865214, 0.806976332, 0.822843867, 0.838400002, 0.853578262, 0.868313774, 0.882543568, 0.896206835, 0.909245173, 0.92160287, 0.933227116, 0.944068236, 0.954079898, 0.963219316, 0.971447445, 0.978729112, 0.979842958, 0.979842958, 0.979842958, 0.979842958], degree=3))
        make_face()
        with BuildLine():
            ThreePointArc((643.966787522, 0), (643.872033494, -0.540245973), (643.599082689, -1.016))
            ThreePointArc((643.599082689, -1.016), (643.111845681, -1.408373102), (642.510849283, -1.582039112))
            add(Edge.make_bspline(
                [(642.510849283, -1.582039112), (644.922074617, -1.381522545), (649.798936594, -1.000308437), (656.504964311, -0.543558383), (662.850933168, -0.234427605), (666.344759683, -0.054696708), (670.56, -0.015678595), (670.56, 0)],
                knots=[0.979842958, 0.979842958, 0.979842958, 0.979842958, 0.985033212, 0.990332793, 0.994605218, 0.997832222, 1, 1, 1, 1], degree=3))
            add(Edge.make_bspline(
                [(670.56, 0), (670.56, 0.015678595), (666.344759683, 0.054696708), (662.850933168, 0.234427605), (656.504964311, 0.543558383), (649.798936594, 1.000308437), (644.922074617, 1.381522545), (642.510849283, 1.582039112)],
                knots=[0, 0, 0, 0, 0.002167778, 0.005394782, 0.009667207, 0.014966788, 0.020157042, 0.020157042, 0.020157042, 0.020157042], degree=3))
            ThreePointArc((642.510849283, 1.582039112), (643.547407924, 1.075012082), (643.966787522, 0))
        make_face()
        with BuildLine():
            ThreePointArc((53.34, 0), (40.64, 12.7), (27.94, 0))
            Line((27.94, 0), (53.34, 0))
        make_face()
        with BuildLine():
            Line((53.34, 0), (27.94, 0))
            ThreePointArc((27.94, 0), (40.64, -12.7), (53.34, 0))
        make_face()
        with BuildLine():
            ThreePointArc((93.345, 0), (104.14, -10.795), (114.935, 0))
            Line((114.935, 0), (93.345, 0))
        make_face()
        with BuildLine():
            Line((93.345, 0), (114.935, 0))
            ThreePointArc((114.935, 0), (104.14, 10.795), (93.345, 0))
        make_face()
    extrude(amount=BOSS_EXTRUDE1_DEPTH)

    # Sketch3 → Cut-Extrude2 (cut)
    with BuildSketch(Plane.XY.offset(76.2)):
        with Locations((104.139232412, 0)):
            Circle(SKETCH3_R)
    extrude(amount=-CUT_EXTRUDE2_DEPTH, mode=Mode.SUBTRACT)

    # Sketch6 → Cut-Extrude3 (cut, two sides)
    with BuildSketch(Plane(origin=(0, 0, 0), x_dir=(0, 0, -1), z_dir=(1, 0, 0))) as cut_extrude3_sk:
        with Locations((-20.32, 0)):
            Circle(SKETCH6_R)
    extrude(amount=CUT_EXTRUDE3_DEPTH, mode=Mode.SUBTRACT)
    extrude(cut_extrude3_sk.sketch, amount=-CUT_EXTRUDE3_DEPTH_BACK, mode=Mode.SUBTRACT)

    # Sketch7 → Cut-Extrude4 (cut)
    with BuildSketch(Plane(origin=(0, 0, 0), x_dir=(-1, 0, 0), z_dir=(0, 0, -1))):
        with Locations((-38.1, 0)):
            Circle(SKETCH7_R)
        with Locations((-50.8, 0)):
            Circle(SKETCH7_R)
    extrude(amount=-CUT_EXTRUDE4_DEPTH, mode=Mode.SUBTRACT)

    # Sketch8 → Cut-Extrude5 (cut)
    with BuildSketch(Plane(origin=(0, 0, 0), x_dir=(-1, 0, 0), z_dir=(0, 0, -1))):
        with Locations((-524.843319628, 0.490119432)):
            Rectangle(SKETCH8_W, SKETCH8_H)
    extrude(amount=-CUT_EXTRUDE5_DEPTH, mode=Mode.SUBTRACT)


solid = part.part
